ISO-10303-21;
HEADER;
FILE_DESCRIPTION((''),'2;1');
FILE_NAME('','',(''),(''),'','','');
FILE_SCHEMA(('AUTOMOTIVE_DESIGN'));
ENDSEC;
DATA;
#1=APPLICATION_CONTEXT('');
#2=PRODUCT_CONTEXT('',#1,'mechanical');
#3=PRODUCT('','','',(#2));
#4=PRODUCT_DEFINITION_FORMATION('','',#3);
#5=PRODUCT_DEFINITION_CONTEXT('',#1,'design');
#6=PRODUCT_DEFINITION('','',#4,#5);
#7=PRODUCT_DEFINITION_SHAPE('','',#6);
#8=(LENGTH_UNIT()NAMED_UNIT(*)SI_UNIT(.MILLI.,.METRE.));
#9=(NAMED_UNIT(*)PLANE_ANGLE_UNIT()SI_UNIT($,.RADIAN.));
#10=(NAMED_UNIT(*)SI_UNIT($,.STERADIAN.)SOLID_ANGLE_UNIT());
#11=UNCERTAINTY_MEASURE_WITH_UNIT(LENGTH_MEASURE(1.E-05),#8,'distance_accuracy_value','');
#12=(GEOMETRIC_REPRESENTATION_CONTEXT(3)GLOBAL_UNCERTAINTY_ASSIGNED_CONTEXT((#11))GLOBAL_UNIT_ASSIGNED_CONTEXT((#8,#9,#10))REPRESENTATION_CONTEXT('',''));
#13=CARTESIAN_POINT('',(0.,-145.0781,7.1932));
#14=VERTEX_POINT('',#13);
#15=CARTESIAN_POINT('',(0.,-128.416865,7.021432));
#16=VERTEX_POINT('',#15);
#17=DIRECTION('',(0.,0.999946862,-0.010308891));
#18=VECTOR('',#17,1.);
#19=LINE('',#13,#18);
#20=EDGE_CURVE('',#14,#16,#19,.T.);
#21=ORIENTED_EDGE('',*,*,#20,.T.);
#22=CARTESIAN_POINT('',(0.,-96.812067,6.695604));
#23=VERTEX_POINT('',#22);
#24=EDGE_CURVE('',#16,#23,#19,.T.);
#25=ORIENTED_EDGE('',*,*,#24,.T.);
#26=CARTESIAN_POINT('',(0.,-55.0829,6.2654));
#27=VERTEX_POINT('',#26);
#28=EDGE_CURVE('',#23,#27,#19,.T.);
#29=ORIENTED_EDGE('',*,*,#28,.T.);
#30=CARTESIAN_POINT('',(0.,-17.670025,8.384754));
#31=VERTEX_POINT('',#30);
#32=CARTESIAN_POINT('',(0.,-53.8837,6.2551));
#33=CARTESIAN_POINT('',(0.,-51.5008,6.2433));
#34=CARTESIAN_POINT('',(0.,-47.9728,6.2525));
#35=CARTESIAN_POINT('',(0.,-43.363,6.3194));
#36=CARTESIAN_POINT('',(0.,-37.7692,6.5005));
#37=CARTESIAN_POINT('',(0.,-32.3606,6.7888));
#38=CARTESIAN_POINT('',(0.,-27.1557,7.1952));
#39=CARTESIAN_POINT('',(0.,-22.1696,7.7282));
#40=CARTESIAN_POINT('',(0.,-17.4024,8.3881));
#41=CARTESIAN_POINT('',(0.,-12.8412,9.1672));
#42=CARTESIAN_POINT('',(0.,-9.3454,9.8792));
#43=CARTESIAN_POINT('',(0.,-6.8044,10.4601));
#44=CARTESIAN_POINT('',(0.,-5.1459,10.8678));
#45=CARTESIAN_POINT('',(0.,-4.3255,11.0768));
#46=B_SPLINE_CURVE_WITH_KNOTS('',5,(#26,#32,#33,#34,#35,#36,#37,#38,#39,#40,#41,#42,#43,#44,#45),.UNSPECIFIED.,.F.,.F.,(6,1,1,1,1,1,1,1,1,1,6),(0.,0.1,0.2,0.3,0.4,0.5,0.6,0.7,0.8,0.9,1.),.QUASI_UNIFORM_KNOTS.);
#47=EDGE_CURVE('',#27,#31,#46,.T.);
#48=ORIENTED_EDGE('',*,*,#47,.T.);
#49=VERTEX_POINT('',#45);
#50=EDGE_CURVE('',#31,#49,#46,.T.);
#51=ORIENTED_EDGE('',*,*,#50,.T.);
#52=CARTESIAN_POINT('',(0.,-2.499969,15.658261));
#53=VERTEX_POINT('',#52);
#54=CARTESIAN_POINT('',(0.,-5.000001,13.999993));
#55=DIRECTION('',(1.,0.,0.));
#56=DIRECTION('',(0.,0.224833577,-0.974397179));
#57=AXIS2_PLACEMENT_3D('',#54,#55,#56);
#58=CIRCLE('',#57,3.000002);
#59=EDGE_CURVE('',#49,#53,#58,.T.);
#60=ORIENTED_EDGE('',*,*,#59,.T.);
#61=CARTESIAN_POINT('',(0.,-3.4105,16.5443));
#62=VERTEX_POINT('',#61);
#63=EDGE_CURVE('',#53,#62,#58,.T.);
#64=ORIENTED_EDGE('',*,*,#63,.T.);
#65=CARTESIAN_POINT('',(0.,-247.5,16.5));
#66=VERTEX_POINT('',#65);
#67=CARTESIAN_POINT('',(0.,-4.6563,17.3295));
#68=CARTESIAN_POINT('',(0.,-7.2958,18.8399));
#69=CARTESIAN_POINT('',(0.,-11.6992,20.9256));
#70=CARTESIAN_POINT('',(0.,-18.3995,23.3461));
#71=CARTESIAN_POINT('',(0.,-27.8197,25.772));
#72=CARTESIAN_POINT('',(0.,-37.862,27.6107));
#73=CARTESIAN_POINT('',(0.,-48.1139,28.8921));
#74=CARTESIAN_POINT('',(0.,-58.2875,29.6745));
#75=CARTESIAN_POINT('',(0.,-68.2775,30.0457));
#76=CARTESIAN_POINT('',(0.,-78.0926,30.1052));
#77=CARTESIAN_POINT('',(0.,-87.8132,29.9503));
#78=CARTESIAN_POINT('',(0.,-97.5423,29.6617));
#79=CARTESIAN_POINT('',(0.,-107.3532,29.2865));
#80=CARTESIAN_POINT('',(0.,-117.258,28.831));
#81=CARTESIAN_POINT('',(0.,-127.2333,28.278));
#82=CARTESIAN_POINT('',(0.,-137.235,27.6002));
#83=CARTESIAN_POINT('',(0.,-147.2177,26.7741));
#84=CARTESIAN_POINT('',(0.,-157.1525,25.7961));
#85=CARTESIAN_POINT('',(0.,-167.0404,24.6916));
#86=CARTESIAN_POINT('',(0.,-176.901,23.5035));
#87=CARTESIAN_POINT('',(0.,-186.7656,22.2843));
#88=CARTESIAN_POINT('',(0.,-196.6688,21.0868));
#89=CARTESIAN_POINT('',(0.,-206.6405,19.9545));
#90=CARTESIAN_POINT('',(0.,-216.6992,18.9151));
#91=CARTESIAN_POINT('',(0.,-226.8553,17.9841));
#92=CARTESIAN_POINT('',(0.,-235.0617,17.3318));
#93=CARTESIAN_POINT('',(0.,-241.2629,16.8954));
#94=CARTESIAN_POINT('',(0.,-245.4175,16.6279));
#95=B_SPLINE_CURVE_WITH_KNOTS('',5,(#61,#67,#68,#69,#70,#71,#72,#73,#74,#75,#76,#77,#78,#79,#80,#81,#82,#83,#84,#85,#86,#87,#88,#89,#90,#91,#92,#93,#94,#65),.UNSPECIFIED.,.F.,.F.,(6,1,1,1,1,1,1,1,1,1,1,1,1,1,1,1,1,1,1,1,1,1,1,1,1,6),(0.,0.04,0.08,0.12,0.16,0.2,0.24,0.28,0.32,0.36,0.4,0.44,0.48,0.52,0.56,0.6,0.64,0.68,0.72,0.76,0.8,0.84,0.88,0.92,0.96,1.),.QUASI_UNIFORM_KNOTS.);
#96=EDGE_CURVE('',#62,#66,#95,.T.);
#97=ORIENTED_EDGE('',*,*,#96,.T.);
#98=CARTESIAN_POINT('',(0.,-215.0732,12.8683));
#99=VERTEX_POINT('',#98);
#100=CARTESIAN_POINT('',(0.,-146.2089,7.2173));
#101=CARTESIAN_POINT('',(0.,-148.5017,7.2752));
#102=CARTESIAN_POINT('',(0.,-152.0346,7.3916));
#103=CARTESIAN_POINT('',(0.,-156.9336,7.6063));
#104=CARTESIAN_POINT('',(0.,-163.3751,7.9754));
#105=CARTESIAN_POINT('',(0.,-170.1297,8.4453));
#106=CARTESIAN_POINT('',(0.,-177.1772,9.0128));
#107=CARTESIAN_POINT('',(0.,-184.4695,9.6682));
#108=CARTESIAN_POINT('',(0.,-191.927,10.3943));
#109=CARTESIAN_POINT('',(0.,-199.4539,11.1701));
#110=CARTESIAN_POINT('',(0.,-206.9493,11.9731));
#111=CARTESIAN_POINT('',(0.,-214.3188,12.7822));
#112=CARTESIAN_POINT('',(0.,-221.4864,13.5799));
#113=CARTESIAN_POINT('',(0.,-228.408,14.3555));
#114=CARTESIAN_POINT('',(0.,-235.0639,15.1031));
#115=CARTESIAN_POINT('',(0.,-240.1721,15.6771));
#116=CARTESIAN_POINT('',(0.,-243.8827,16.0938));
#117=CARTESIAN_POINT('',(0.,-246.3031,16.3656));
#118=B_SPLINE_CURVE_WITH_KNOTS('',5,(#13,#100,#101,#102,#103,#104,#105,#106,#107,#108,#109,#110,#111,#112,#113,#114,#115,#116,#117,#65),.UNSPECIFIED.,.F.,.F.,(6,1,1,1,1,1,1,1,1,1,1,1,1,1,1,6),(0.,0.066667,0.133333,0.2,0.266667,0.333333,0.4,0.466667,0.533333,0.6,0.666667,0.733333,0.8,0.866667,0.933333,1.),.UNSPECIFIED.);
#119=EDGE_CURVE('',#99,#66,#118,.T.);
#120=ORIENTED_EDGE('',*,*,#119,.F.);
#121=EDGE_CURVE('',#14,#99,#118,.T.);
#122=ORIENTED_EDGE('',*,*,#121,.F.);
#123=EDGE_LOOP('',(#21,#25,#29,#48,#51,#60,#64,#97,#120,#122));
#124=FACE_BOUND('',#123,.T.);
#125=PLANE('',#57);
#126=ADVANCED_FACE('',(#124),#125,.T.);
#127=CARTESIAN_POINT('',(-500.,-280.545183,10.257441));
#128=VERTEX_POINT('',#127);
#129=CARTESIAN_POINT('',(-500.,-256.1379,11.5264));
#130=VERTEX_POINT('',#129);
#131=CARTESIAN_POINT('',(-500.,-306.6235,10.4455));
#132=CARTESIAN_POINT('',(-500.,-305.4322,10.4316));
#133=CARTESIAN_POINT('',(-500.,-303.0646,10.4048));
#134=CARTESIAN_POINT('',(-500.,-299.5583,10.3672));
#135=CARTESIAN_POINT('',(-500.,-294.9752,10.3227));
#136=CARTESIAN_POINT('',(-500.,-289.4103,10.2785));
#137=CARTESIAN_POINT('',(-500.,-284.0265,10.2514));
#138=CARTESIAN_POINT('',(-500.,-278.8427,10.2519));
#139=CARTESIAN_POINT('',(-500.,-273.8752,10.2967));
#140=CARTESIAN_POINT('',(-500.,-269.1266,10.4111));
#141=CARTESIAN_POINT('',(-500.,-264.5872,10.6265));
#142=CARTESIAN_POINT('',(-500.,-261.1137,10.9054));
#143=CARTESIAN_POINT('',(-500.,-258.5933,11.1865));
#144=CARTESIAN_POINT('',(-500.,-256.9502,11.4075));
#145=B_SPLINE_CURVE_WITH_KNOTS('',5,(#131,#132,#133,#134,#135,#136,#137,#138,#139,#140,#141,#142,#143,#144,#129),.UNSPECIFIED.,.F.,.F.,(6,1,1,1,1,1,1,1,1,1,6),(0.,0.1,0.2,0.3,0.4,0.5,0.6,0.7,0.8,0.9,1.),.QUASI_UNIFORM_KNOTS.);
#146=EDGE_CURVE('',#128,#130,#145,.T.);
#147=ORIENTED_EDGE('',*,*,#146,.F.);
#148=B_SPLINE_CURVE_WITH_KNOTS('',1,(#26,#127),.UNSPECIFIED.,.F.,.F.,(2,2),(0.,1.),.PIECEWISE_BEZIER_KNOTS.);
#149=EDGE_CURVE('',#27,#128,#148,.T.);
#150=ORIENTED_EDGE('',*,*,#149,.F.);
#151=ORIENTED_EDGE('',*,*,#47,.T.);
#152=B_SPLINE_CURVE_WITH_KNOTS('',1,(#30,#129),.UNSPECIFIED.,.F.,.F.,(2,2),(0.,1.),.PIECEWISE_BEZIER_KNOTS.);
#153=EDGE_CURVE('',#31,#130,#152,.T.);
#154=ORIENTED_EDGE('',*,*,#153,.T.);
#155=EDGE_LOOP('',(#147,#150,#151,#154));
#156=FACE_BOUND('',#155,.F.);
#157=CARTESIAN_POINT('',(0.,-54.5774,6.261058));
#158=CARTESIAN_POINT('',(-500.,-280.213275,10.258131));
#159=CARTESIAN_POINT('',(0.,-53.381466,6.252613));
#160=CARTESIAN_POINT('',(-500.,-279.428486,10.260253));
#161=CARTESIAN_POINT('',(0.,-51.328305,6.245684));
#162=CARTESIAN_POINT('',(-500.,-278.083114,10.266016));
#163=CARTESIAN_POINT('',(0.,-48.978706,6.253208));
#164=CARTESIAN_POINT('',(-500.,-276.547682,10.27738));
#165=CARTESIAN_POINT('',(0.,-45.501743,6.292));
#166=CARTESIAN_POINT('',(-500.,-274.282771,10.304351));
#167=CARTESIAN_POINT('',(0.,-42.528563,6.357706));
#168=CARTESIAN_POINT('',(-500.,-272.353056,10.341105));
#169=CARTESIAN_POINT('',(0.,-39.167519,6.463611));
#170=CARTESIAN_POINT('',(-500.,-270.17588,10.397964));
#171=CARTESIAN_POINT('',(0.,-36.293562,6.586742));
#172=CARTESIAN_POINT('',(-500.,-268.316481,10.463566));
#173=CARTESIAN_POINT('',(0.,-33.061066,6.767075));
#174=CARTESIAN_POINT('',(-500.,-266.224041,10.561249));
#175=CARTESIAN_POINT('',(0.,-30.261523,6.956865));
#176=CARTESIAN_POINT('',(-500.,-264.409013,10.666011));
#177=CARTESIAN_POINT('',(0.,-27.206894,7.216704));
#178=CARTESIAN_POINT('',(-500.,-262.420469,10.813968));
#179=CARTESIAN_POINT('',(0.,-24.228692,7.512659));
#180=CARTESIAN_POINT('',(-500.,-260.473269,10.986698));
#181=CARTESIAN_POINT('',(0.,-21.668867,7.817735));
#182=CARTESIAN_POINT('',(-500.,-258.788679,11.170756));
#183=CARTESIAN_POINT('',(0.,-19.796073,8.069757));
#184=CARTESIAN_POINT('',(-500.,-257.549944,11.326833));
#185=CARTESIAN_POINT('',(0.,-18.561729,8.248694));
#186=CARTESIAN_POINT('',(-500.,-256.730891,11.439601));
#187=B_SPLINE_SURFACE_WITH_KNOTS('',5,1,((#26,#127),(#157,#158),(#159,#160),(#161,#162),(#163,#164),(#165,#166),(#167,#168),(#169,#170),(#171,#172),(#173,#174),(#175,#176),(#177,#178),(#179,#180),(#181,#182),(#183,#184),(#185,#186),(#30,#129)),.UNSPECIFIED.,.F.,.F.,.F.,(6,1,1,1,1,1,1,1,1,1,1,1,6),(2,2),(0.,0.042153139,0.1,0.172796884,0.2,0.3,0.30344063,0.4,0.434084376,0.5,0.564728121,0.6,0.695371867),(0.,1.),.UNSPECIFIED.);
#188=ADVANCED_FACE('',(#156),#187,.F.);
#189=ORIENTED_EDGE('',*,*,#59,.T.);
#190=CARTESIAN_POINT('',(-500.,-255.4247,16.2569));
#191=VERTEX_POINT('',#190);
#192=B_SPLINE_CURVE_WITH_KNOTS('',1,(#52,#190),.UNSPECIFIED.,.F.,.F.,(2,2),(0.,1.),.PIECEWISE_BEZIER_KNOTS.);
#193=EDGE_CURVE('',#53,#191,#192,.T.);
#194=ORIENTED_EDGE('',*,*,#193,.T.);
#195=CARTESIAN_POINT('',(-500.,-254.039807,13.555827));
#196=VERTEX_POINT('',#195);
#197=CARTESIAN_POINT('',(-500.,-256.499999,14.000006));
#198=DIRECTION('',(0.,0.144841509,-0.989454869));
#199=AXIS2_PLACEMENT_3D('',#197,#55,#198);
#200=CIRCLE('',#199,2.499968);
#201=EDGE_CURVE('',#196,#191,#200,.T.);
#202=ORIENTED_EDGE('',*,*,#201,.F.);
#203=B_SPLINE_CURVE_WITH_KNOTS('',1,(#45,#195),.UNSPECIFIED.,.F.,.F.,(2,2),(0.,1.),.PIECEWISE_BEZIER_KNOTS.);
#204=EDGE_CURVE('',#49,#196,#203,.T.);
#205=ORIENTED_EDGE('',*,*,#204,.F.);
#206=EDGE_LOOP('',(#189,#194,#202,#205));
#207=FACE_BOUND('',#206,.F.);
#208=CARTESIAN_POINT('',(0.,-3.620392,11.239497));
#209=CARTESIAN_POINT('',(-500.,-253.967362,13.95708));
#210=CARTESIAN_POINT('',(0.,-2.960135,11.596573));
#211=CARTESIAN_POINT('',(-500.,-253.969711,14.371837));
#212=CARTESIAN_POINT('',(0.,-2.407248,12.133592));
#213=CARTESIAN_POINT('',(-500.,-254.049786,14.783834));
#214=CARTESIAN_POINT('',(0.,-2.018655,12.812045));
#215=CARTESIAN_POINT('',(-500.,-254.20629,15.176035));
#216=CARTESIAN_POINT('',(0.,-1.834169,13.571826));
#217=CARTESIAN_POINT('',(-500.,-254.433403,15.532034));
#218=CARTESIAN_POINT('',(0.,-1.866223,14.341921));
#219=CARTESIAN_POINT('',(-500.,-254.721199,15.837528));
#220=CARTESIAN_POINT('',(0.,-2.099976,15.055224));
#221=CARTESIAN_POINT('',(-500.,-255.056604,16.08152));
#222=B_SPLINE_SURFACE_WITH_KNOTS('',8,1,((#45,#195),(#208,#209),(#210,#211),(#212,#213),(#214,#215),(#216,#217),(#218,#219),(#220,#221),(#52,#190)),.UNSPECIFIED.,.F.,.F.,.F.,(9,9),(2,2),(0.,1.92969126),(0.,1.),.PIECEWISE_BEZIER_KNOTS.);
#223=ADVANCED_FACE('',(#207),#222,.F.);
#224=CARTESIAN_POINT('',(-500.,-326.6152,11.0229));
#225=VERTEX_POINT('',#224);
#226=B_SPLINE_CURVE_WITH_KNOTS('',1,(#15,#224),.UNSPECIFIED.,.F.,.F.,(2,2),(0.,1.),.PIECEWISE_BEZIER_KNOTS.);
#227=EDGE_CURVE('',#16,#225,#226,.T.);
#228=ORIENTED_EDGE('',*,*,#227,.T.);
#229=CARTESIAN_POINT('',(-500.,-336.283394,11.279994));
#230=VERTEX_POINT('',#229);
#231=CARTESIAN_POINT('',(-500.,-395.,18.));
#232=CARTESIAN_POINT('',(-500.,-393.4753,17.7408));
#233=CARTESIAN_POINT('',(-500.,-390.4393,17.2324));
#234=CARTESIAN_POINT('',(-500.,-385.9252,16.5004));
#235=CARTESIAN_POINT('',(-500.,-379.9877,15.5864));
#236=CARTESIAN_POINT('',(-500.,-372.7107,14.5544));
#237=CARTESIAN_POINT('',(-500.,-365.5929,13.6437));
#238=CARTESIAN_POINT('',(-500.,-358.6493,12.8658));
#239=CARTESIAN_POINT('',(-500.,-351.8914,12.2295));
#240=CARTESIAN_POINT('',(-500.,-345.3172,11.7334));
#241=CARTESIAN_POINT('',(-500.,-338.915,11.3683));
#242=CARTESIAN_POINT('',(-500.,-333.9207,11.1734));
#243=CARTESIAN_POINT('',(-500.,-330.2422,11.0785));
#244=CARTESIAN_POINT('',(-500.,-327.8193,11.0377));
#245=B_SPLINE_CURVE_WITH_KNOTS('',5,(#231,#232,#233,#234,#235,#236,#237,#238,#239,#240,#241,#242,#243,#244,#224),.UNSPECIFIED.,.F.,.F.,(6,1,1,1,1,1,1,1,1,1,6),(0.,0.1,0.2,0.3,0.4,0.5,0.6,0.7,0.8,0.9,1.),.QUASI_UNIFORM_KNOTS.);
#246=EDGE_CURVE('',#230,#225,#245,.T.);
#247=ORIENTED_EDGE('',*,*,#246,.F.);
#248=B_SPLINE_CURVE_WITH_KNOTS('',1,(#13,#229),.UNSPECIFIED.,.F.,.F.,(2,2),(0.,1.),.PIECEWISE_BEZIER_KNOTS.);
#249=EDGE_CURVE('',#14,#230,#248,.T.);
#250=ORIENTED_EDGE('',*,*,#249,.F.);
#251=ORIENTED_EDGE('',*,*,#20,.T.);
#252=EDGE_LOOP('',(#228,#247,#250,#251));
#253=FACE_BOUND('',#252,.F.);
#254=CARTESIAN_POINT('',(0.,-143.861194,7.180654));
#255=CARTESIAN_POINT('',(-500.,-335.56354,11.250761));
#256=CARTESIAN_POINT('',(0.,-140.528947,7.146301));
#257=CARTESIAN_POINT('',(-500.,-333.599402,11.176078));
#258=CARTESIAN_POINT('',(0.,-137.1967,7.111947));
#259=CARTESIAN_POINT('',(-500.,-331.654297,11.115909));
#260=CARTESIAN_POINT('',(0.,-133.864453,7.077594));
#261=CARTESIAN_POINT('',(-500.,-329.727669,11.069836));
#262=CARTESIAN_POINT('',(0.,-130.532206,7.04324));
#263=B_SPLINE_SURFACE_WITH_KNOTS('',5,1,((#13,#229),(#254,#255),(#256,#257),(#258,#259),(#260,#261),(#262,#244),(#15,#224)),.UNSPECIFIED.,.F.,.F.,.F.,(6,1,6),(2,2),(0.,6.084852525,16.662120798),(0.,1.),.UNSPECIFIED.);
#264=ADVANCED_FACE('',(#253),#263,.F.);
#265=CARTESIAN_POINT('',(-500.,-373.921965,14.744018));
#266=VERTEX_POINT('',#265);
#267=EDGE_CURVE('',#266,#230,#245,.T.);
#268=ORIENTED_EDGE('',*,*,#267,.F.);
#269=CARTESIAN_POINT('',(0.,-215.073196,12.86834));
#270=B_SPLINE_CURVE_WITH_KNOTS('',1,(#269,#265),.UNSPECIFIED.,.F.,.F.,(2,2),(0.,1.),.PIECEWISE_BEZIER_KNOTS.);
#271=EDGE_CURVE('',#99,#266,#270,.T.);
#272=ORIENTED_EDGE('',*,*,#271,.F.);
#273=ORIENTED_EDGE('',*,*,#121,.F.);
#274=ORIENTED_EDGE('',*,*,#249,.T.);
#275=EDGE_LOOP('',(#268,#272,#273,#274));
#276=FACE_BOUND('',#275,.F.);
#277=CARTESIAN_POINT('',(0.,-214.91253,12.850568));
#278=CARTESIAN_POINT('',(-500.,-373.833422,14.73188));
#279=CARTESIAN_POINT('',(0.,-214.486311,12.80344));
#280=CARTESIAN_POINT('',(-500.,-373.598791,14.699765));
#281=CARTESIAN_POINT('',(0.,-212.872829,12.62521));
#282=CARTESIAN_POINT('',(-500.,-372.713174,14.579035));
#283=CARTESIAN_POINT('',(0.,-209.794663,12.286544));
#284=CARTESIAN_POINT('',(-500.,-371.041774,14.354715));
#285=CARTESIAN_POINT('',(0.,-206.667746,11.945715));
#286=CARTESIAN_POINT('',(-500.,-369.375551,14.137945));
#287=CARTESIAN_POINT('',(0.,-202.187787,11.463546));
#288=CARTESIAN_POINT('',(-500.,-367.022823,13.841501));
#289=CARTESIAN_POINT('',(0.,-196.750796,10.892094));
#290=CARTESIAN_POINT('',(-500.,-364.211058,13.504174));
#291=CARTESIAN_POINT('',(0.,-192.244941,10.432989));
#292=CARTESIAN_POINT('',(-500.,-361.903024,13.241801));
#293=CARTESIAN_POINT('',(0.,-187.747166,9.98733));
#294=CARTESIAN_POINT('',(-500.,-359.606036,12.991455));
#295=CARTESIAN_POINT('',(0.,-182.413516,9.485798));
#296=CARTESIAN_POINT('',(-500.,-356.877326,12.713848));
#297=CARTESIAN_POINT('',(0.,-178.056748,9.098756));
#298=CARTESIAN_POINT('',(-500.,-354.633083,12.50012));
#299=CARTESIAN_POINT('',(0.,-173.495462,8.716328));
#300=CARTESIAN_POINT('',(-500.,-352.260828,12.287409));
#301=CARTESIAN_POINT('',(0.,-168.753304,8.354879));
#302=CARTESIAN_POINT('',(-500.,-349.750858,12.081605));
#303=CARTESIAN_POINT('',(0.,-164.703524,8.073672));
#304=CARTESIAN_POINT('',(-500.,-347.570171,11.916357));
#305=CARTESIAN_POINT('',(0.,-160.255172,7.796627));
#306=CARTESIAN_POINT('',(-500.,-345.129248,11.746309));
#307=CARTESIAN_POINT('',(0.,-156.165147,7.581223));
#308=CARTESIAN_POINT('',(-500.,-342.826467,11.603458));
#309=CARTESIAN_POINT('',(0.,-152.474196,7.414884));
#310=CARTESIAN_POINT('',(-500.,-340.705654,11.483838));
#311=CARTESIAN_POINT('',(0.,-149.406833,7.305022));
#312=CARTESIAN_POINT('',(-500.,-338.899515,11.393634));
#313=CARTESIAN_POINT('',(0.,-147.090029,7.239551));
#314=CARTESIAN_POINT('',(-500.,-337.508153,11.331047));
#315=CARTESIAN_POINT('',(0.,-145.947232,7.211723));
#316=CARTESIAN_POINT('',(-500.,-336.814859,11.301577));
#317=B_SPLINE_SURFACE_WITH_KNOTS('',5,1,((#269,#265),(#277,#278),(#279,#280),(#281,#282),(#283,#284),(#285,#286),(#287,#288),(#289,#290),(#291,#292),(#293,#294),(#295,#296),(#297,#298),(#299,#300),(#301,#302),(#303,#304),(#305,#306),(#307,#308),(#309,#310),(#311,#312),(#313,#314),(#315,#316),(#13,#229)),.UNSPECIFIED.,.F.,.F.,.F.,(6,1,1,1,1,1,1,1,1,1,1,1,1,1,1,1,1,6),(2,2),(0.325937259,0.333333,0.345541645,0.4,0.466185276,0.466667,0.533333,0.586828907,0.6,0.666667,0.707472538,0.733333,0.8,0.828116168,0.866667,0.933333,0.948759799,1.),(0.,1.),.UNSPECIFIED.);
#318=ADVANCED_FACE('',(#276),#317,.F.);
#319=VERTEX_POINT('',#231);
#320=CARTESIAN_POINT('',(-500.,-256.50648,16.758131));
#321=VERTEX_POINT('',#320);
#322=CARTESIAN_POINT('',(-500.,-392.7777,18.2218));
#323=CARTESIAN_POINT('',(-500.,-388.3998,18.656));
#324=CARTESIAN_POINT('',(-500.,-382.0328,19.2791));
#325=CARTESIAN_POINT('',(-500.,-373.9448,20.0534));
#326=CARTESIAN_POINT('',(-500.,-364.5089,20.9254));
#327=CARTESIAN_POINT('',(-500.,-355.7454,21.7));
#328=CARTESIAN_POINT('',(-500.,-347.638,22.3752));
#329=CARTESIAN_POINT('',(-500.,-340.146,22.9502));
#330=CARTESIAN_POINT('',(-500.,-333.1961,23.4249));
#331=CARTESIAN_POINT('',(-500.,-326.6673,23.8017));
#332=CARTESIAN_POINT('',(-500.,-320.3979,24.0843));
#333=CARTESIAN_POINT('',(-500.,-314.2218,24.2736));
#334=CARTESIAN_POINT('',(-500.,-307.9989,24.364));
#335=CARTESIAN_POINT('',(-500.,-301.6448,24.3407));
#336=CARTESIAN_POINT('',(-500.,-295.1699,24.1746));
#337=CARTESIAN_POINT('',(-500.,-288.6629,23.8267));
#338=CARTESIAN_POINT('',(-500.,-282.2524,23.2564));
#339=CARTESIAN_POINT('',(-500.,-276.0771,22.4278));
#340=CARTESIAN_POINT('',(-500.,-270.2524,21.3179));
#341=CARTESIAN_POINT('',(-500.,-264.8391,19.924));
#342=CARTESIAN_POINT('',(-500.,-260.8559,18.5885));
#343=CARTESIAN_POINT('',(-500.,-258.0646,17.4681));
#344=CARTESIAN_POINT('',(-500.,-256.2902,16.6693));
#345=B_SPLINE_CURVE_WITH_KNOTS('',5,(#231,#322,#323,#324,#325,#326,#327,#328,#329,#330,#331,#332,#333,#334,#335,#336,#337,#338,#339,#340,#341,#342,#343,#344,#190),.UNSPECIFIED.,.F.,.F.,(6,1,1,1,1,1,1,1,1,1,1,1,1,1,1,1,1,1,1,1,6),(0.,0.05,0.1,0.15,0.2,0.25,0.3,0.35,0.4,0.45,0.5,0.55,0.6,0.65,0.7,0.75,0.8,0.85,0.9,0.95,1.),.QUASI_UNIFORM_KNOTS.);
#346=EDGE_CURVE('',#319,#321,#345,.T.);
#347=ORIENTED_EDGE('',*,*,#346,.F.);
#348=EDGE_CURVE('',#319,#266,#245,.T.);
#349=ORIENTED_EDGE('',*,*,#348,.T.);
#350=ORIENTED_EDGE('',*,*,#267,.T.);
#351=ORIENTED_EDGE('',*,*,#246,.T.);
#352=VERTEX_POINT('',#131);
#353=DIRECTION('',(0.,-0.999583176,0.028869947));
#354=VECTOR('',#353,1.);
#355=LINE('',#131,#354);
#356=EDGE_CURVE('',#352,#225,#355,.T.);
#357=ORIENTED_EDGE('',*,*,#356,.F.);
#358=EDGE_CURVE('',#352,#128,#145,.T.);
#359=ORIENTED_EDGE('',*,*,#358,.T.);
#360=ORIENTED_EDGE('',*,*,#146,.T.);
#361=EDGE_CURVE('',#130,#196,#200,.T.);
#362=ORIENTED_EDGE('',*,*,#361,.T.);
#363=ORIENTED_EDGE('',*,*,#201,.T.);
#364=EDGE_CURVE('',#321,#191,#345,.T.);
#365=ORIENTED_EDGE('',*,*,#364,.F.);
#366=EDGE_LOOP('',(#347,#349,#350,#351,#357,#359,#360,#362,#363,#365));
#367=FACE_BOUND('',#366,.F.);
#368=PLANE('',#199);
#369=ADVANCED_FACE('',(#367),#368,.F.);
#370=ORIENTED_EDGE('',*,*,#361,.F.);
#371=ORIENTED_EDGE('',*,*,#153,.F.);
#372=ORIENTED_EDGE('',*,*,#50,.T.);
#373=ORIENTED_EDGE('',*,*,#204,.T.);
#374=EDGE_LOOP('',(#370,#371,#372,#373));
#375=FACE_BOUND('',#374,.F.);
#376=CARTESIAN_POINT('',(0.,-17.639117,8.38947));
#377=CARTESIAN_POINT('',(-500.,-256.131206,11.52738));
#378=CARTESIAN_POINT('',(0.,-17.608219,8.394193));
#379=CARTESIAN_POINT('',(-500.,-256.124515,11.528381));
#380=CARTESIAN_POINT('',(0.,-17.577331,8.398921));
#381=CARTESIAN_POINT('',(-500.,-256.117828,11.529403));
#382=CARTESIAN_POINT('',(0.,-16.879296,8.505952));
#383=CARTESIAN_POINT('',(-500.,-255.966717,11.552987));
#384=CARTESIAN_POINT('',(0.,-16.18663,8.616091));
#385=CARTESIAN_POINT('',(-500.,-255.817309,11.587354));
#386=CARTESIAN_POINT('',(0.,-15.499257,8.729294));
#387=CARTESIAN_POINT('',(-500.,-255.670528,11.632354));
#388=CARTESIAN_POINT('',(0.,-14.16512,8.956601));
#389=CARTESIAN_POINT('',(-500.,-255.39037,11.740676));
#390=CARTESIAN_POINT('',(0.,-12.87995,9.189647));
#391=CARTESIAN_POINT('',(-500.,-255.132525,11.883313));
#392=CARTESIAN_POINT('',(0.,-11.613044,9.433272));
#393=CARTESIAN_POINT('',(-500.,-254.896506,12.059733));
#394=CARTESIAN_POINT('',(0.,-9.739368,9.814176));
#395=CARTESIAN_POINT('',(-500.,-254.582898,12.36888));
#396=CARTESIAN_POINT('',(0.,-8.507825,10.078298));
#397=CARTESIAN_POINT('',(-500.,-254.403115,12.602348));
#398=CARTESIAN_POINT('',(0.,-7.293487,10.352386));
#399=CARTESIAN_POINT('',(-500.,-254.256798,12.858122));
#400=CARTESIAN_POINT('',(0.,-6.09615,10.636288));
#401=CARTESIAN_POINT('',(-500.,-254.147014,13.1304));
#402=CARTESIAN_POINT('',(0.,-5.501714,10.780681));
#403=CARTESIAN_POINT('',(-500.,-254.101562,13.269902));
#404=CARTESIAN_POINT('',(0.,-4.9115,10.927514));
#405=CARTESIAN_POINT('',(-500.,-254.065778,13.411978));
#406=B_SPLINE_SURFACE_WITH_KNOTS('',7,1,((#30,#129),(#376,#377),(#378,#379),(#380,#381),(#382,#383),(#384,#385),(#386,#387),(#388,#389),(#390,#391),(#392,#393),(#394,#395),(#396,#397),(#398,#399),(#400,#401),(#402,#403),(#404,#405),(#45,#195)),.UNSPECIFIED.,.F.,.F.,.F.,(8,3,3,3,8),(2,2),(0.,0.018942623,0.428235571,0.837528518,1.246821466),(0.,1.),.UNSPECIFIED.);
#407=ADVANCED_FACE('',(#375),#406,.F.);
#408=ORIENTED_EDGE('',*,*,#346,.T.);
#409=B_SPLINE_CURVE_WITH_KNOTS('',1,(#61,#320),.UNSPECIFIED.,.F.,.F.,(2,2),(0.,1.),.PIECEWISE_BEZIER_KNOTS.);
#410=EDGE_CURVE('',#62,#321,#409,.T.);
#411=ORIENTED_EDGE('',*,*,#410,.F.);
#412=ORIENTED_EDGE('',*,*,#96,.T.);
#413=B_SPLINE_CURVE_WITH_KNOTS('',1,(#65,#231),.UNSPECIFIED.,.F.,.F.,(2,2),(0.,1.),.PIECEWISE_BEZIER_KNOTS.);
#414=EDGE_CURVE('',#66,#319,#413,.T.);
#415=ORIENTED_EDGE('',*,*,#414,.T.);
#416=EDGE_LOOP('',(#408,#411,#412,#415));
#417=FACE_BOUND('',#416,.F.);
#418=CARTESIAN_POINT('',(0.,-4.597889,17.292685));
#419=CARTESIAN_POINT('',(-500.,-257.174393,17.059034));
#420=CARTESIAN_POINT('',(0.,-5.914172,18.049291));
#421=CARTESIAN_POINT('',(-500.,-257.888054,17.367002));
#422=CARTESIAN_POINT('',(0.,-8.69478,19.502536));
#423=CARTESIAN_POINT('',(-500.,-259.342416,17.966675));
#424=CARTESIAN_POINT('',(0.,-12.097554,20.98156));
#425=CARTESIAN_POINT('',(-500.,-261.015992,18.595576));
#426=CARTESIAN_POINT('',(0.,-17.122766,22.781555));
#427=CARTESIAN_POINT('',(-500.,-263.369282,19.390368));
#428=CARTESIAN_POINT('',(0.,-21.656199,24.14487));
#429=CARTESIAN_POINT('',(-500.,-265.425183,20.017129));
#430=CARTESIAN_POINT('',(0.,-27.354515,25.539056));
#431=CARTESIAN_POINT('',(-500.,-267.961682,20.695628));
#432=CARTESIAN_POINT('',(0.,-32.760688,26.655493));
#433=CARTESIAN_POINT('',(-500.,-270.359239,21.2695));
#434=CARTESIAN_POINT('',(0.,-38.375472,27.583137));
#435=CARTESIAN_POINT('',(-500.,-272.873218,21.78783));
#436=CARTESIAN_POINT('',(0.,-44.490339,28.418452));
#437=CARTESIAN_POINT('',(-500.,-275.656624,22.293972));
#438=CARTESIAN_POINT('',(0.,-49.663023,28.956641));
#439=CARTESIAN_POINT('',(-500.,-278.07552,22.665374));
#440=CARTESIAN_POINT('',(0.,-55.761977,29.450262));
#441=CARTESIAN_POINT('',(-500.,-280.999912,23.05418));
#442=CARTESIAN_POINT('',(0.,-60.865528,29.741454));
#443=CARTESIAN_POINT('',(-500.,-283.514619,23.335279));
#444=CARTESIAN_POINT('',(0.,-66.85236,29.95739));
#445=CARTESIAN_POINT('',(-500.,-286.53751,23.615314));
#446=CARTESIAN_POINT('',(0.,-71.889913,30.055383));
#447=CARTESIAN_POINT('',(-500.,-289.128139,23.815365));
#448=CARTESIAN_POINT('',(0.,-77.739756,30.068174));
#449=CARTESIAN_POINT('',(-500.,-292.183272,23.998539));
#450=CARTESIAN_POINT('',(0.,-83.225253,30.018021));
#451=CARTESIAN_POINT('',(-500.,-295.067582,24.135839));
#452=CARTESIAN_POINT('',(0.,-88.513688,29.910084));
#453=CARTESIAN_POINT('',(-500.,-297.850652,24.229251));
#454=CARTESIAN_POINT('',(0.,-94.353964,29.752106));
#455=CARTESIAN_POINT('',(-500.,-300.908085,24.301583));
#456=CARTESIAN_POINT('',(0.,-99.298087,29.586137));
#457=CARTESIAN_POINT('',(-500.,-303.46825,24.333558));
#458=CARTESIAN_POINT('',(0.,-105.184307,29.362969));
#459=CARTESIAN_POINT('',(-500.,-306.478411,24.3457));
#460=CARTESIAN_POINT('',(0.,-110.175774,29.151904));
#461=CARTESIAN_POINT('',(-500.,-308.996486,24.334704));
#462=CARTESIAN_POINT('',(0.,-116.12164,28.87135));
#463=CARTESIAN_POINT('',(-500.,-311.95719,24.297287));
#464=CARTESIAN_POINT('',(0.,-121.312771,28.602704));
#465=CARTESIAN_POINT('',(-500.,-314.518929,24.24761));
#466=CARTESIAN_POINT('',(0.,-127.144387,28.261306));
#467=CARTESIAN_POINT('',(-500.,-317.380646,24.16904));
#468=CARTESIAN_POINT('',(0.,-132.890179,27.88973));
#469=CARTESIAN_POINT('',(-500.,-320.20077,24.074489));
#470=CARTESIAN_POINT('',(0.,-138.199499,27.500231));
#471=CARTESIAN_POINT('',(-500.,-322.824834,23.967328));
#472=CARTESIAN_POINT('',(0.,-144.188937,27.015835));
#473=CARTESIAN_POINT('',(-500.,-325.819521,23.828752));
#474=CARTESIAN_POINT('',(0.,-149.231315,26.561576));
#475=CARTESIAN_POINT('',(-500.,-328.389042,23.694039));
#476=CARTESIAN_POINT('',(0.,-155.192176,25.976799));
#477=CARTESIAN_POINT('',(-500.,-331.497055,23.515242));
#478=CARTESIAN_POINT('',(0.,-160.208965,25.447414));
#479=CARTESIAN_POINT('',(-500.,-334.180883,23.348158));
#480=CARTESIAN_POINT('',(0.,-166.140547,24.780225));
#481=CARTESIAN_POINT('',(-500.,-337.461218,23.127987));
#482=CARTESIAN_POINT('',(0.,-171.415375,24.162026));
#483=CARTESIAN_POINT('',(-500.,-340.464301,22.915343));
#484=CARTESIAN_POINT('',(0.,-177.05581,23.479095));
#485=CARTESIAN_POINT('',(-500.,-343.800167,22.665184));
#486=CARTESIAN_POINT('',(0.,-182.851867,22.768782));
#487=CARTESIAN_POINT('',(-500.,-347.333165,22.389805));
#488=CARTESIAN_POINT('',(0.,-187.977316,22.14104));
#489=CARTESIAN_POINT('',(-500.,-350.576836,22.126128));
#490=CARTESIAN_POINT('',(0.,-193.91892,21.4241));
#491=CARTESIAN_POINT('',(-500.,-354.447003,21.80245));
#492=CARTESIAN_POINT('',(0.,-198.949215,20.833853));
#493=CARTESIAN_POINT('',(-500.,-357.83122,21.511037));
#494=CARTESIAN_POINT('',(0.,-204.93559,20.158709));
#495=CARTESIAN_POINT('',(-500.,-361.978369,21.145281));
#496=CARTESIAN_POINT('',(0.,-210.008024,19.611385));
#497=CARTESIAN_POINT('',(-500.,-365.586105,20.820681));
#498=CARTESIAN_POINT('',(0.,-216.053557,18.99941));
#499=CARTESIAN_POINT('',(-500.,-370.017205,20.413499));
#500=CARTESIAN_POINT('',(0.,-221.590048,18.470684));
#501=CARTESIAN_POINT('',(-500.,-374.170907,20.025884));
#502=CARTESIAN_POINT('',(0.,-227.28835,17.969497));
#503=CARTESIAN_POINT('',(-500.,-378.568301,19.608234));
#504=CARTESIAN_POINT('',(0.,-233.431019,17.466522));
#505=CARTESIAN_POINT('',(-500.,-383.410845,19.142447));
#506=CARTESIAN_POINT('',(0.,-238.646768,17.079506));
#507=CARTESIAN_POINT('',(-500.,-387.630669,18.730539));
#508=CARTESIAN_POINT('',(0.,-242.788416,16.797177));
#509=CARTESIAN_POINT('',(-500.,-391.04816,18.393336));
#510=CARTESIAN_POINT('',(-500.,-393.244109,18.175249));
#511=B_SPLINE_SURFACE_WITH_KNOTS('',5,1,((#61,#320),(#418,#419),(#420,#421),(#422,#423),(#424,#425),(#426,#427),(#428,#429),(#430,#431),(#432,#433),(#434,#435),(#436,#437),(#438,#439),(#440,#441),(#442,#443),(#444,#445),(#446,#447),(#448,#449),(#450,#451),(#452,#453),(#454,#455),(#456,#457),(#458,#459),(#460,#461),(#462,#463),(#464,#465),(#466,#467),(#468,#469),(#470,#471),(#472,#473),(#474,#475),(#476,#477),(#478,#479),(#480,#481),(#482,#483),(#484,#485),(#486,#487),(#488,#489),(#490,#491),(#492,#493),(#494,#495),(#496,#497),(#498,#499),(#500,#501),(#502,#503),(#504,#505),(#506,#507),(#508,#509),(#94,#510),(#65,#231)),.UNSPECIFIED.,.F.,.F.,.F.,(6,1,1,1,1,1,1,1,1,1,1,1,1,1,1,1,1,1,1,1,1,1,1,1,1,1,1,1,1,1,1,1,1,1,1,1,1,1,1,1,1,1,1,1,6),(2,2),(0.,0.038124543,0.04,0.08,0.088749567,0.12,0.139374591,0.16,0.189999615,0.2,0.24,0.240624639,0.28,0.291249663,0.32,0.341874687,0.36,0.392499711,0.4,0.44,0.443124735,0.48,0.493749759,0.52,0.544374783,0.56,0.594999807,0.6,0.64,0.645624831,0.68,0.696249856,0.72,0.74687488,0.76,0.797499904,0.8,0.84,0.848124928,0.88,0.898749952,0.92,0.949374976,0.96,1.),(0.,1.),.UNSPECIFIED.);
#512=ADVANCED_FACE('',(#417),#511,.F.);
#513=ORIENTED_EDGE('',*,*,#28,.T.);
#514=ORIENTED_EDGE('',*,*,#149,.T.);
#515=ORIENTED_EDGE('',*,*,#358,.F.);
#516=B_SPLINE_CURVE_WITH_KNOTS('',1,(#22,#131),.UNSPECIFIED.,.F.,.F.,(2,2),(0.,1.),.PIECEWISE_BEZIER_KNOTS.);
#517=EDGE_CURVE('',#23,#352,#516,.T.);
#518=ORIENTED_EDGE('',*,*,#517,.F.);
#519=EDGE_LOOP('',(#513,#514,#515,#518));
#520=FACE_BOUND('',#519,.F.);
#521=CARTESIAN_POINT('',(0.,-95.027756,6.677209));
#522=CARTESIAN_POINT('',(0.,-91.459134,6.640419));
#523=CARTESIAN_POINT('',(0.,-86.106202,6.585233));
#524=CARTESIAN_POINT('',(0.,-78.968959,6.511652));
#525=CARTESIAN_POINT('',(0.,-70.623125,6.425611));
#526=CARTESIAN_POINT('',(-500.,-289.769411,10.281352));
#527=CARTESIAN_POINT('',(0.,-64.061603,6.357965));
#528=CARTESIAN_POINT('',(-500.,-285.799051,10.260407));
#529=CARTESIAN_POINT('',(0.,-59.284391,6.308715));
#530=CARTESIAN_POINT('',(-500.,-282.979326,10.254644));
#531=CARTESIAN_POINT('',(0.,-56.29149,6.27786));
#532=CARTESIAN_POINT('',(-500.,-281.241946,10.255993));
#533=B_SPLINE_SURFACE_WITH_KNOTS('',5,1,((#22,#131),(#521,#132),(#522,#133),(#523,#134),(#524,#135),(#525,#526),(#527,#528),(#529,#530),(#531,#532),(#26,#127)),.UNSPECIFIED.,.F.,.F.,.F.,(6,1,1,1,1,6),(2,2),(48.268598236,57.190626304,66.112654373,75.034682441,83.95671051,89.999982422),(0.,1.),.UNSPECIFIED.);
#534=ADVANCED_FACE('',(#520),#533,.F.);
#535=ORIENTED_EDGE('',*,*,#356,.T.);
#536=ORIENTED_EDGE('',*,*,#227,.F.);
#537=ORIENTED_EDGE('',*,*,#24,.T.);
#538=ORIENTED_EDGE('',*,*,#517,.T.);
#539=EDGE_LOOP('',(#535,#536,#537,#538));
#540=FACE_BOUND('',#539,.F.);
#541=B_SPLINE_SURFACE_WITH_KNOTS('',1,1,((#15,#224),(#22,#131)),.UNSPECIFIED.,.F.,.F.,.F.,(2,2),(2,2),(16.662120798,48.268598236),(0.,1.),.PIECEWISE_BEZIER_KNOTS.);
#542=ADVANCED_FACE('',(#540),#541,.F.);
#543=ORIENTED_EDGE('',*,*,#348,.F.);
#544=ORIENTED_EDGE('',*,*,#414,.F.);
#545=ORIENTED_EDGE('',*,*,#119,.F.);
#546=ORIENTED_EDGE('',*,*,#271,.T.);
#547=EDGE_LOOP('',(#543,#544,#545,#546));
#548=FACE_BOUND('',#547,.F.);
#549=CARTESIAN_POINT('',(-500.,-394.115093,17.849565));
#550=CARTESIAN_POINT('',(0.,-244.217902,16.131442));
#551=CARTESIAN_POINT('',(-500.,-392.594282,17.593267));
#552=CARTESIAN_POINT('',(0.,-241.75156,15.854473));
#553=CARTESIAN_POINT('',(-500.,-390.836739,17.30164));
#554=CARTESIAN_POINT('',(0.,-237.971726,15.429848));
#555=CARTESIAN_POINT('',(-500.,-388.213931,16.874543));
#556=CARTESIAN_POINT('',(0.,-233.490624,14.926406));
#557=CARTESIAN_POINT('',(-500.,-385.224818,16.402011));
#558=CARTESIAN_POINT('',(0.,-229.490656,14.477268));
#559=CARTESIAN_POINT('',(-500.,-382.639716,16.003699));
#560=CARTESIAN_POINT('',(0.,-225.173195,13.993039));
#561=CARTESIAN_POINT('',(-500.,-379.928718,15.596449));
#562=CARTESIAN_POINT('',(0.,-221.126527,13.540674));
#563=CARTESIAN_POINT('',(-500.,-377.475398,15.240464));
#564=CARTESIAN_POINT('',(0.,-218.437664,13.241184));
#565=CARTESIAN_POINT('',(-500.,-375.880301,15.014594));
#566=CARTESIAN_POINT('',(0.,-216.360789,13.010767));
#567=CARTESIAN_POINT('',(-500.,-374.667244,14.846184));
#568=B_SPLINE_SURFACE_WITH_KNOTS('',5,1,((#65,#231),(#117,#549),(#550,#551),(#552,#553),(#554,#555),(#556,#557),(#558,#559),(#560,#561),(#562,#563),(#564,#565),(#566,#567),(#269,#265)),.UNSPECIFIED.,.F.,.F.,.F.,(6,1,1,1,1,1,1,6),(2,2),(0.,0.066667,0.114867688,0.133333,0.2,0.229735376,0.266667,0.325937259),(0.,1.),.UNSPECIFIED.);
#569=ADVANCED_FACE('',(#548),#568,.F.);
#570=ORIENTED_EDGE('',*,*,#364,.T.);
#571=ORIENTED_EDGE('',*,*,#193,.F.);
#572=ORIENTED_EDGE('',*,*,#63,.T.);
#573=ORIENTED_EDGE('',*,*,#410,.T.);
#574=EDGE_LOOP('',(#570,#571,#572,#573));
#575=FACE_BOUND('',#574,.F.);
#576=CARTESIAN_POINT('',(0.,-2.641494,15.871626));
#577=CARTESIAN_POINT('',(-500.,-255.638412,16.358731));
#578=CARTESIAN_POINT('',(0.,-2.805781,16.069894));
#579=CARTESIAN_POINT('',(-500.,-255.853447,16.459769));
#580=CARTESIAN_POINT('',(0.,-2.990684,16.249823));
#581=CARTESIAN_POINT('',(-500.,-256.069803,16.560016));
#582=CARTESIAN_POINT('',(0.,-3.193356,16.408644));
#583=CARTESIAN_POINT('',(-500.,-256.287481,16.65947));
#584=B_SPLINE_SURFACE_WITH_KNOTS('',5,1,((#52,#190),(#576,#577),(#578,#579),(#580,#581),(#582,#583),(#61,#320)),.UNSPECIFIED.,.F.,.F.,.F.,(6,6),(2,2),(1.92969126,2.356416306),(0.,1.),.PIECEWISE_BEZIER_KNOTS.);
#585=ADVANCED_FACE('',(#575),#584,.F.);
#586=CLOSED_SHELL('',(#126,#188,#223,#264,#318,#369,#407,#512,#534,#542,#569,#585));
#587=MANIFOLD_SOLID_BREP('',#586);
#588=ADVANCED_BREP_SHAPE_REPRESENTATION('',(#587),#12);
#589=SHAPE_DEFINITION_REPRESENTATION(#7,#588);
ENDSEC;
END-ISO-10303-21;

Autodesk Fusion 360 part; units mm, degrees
sketch "Skizze1" plane through (0, 0, 0) normal (1, 0, 0) x (0, 0, -1)
  line L0 (0, 0) -> (-45, 0) construction
  line L1 (-45, 0) -> (-45, -252.5) construction
  line L2 (-45, -252.5) -> (0, -252.5) construction
  line L3 (0, -252.5) -> (0, 0) construction
  line L4 (-14, -5) -> (-16.5, -247.5) construction
  line L5 (-16.1648, -214.9894) -> (-19.3648, -214.9564) construction
  line L6 (-16.0618, -204.9899) -> (-20.3618, -204.9456) construction
  line L7 (-15.9587, -194.9904) -> (-21.3087, -194.9353) construction
  line L8 (-15.8556, -184.991) -> (-22.1556, -184.926) construction
  line L9 (-15.7525, -174.9915) -> (-23.3525, -174.9131) construction
  line L10 (-15.6494, -164.992) -> (-24.8494, -164.8972) construction
  line L11 (-15.5463, -154.9926) -> (-25.7963, -154.8869) construction
  line L12 (-15.4432, -144.9931) -> (-26.9432, -144.8745) construction
  line L13 (-15.3401, -134.9936) -> (-27.6901, -134.8663) construction
  line L14 (-15.2371, -124.9942) -> (-28.4871, -124.8576) construction
  line L15 (-15.134, -114.9947) -> (-29.134, -114.8504) construction
  line L16 (-15.0309, -104.9952) -> (-29.5309, -104.8457) construction
  line L17 (-14.9278, -94.9957) -> (-29.7278, -94.8432) construction
  line L18 (-14.8247, -84.9963) -> (-29.8247, -84.8416) construction
  line L19 (-14.7216, -74.9968) -> (-30.2216, -74.837) construction
  line L20 (-14.6185, -64.9973) -> (-29.8685, -64.8401) construction
  line L21 (-14.5154, -54.9979) -> (-29.2154, -54.8463) construction
  line L22 (-14.4124, -44.9984) -> (-28.4124, -44.8541) construction
  line L23 (-14.3093, -34.9989) -> (-26.8093, -34.8701) construction
  line L24 (-14.2062, -24.9995) -> (-24.4562, -24.8938) construction
  line L25 (-14.1031, -15) -> (-22.1027, -14.9175) construction
  line L26 (-16.1648, -214.9894) -> (-12.8648, -215.0234) construction
  line L27 (-16.0618, -204.9899) -> (-12.1618, -205.0301) construction
  line L28 (-15.9587, -194.9904) -> (-16.0618, -194.9894) construction
  line L29 (-15.9587, -194.9904) -> (-10.2587, -195.0492) construction
  line L30 (-15.8556, -184.991) -> (-9.7556, -185.0539) construction
  line L31 (-15.7525, -174.9915) -> (-8.8525, -175.0626) construction
  line L32 (-15.6494, -164.992) -> (-8.1494, -165.0693) construction
  line L33 (-15.5463, -154.9926) -> (-7.5463, -155.075) construction
  line L34 (-15.4432, -144.9931) -> (-7.1932, -145.0781) construction
  line L35 (-14.5154, -54.9979) -> (-6.2654, -55.0829) construction
  line L36 (-14.4124, -44.9984) -> (-6.4124, -45.0809) construction
  line L37 (-14.3093, -34.9989) -> (-7.0593, -35.0737) construction
  line L38 (-14.2062, -24.9995) -> (-13.6374, -25.0053) construction
  line L39 (-13.6374, -25.0053) -> (-7.4374, -25.0692) construction
  line L40 (-14.1031, -15) -> (-9.1031, -15.0515) construction
  line L41 (-28.6876, -57.2976) -> (-28.6876, -53.2976) construction
  line L42 (-28.6876, -53.2976) -> (-31.6876, -53.2976) construction
  line L43 (-31.6876, -53.2976) -> (-31.6876, -57.2976) construction
  line L44 (-31.6876, -57.2976) -> (-28.6876, -57.2976) construction
  line L45 (-30, -107) -> (-30, -102) construction
  line L46 (-30, -102) -> (-35, -102) construction
  line L47 (-35, -102) -> (-35, -107) construction
  line L48 (-35, -107) -> (-30, -107) construction
  line L49 (-29, -158) -> (-29, -151) construction
  line L50 (-29, -151) -> (-35, -151) construction
  line L51 (-35, -151) -> (-35, -158) construction
  line L52 (-35, -158) -> (-29, -158) construction
  line L53 (-28, -208) -> (-28, -201) construction
  line L54 (-28, -201) -> (-33, -201) construction
  line L55 (-33, -201) -> (-33, -208) construction
  line L56 (-33, -208) -> (-28, -208) construction
  line L57 (-7.1932, -145.0781) -> (-6.2654, -55.0829)
  spline S0 degree 5 number of poles 115 construction
  spline S1 degree 5 poles (-11.0768, -4.3255) (-10.9783, -4.7523) (-10.7883, -5.6039) (-10.5245, -6.8746) (-10.2108, -8.5556) (-9.8584, -10.6352) (-9.5182, -12.6938) (-9.1666, -14.7331) (-8.792, -16.756) (-8.4052, -18.7668) (-8.032, -20.7708) (-7.7032, -22.7731) (-7.4461, -24.7783) (-7.275, -26.7894) (-7.1808, -28.807) (-7.1379, -30.8297) (-7.1131, -32.8552) (-7.0742, -34.8809) (-6.998, -36.9048) (-6.8801, -38.926) (-6.7304, -40.9447) (-6.5672, -42.9618) (-6.4123, -44.9785) (-6.2859, -46.9958) (-6.2012, -49.0146) (-6.1655, -51.0351) (-6.1789, -52.6532) (-6.2129, -53.8677) (-6.2461, -54.6778) (-6.2654, -55.0829) knots 0 0 0 0 0 0 0.04 0.08 0.12 0.16 0.2 0.24 0.28 0.32 0.36 0.4 0.44 0.48 0.52 0.56 0.6 0.64 0.68 0.72 0.76 0.8 0.84 0.88 0.92 0.96 1 1 1 1 1 1 construction
  spline S2 degree 5 poles (-7.1932, -145.0781) (-7.1963, -145.5182) (-7.2054, -146.3982) (-7.2276, -147.7182) (-7.2744, -149.4781) (-7.3608, -151.6779) (-7.4725, -153.8775) (-7.6045, -156.0768) (-7.748, -158.2758) (-7.8912, -160.4742) (-8.024, -162.672) (-8.1418, -164.8692) (-8.2485, -167.066) (-8.3617, -169.2627) (-8.5041, -171.4599) (-8.6935, -173.6578) (-8.9345, -175.8564) (-9.2071, -178.055) (-9.4661, -180.2521) (-9.6638, -182.4467) (-9.7681, -184.6384) (-9.7802, -186.8281) (-9.7585, -189.0194) (-9.7928, -191.2162) (-9.9673, -193.4214) (-10.3297, -195.6342) (-10.851, -197.8484) (-11.4119, -200.0513) (-11.8781, -202.2292) (-12.1517, -204.3725) (-12.2472, -206.4778) (-12.3273, -208.5587) (-12.4479, -210.6717) (-12.6374, -212.8923) (-12.8897, -215.3048) (-13.1925, -217.9858) (-13.538, -220.9923) (-13.9229, -224.3658) (-14.3471, -228.1343) (-14.8123, -232.3149) (-15.3218, -236.9168) (-15.7677, -240.9379) (-16.1248, -244.1447) (-16.3732, -246.3674) (-16.5, -247.5) knots 0 0 0 0 0 0 0.025 0.05 0.075 0.1 0.125 0.15 0.175 0.2 0.225 0.25 0.275 0.3 0.325 0.35 0.375 0.4 0.425 0.45 0.475 0.5 0.525 0.55 0.575 0.6 0.625 0.65 0.675 0.7 0.725 0.75 0.775 0.8 0.825 0.85 0.875 0.9 0.925 0.95 0.975 1 1 1 1 1 1 construction
  line L58 (-14.8393, -232.6636) -> (-18.1607, -262.3364)
  line L59 (-19.6077, -212.1973) -> (-13.3923, -282.8027)
  line L60 (-11.4552, -194.987) -> (-12.8683, -215.0732)
  line L61 (-1.9731, 19.9133) -> (-31.1155, -26.7343)
  spline S3 degree 5 poles (-16.5443, -3.4105) (-17.3295, -4.6563) (-18.8399, -7.2958) (-20.9256, -11.6992) (-23.3461, -18.3995) (-25.772, -27.8197) (-27.6107, -37.862) (-28.8921, -48.1139) (-29.6745, -58.2875) (-30.0457, -68.2775) (-30.1052, -78.0926) (-29.9503, -87.8132) (-29.6617, -97.5423) (-29.2865, -107.3532) (-28.831, -117.258) (-28.278, -127.2333) (-27.6002, -137.235) (-26.7741, -147.2177) (-25.7961, -157.1525) (-24.6916, -167.0404) (-23.5035, -176.901) (-22.2843, -186.7656) (-21.0868, -196.6688) (-19.9545, -206.6405) (-18.9151, -216.6992) (-17.9841, -226.8553) (-17.3318, -235.0617) (-16.8954, -241.2629) (-16.6279, -245.4175) (-16.5, -247.5) knots 0 0 0 0 0 0 0.04 0.08 0.12 0.16 0.2 0.24 0.28 0.32 0.36 0.4 0.44 0.48 0.52 0.56 0.6 0.64 0.68 0.72 0.76 0.8 0.84 0.88 0.92 0.96 1 1 1 1 1 1
  spline S4 degree 5 poles (-6.2654, -55.0829) (-6.2551, -53.8837) (-6.2433, -51.5008) (-6.2525, -47.9728) (-6.3194, -43.363) (-6.5005, -37.7692) (-6.7888, -32.3606) (-7.1952, -27.1557) (-7.7282, -22.1696) (-8.3881, -17.4024) (-9.1672, -12.8412) (-9.8792, -9.3454) (-10.4601, -6.8044) (-10.8678, -5.1459) (-11.0768, -4.3255) knots 0 0 0 0 0 0 0.1 0.2 0.3 0.4 0.5 0.6 0.7 0.8 0.9 1 1 1 1 1 1
  spline S5 degree 5 poles (-7.1932, -145.0781) (-7.2173, -146.2089) (-7.2752, -148.5017) (-7.3916, -152.0346) (-7.6063, -156.9336) (-7.9754, -163.3751) (-8.4453, -170.1297) (-9.0128, -177.1772) (-9.6682, -184.4695) (-10.3943, -191.927) (-11.1701, -199.4539) (-11.9731, -206.9493) (-12.7822, -214.3188) (-13.5799, -221.4864) (-14.3555, -228.408) (-15.1031, -235.0639) (-15.6771, -240.1721) (-16.0938, -243.8827) (-16.3656, -246.3031) (-16.5, -247.5) knots 0 0 0 0 0 0 0.066667 0.133333 0.2 0.266667 0.333333 0.4 0.466667 0.533333 0.6 0.666667 0.733333 0.8 0.866667 0.933333 1 1 1 1 1 1
  arc A0 (-11.0768, -4.3255) -> (-16.5443, -3.4105) centre (-14, -5) ccw
  line L62 (-6.0886, 13.179) -> (-27, -20)
  point P0 (-14.1031, -15)
  point P1 (-14.2062, -24.9995)
  point P2 (-14.3093, -34.9989)
  point P3 (-14.4124, -44.9984)
  point P4 (-14.5154, -54.9979)
  point P5 (-14.6185, -64.9973)
  point P6 (-14.7216, -74.9968)
  point P7 (-14.8247, -84.9963)
  point P8 (-14.9278, -94.9957)
  point P9 (-15.0309, -104.9952)
  point P10 (-15.134, -114.9947)
  point P11 (-15.2371, -124.9942)
  point P12 (-15.3401, -134.9936)
  point P13 (-15.4432, -144.9931)
  point P14 (-15.5463, -154.9926)
  point P15 (-15.6494, -164.992)
  point P16 (-15.7525, -174.9915)
  point P17 (-15.8556, -184.991)
  point P18 (-15.9587, -194.9904)
  point P19 (-16.0618, -204.9899)
  point P20 (-16.1648, -214.9894)
  point P21 (-28.4124, -44.8541)
  point P22 (-29.7278, -94.8432)
  point P23 (-26.9432, -144.8745)
  point P24 (-21.3087, -194.9353)
  point P25 (-7.4374, -25.0692)
  point P26 (-8.8525, -175.0626)
  point P27 (-12.8683, -215.0732)
  dimension "d1" = 45
  dimension "d2" = 252.5
  dimension "d3" = 14
  dimension "d4" = 5
  dimension "d5" = 16.5
  dimension "d6" = 5
  dimension "d7" = 10
  dimension "d10" = 10
  dimension "d11" = 0
  dimension "d12" = 8
  dimension "d13" = 10.25
  dimension "d14" = 12.5
  dimension "d15" = 14
  dimension "d16" = 14.7
  dimension "d17" = 15.25
  dimension "d18" = 15.5
  dimension "d19" = 10
  dimension "d20" = 10
  dimension "d21" = 10
  dimension "d22" = 10
  dimension "d23" = 15
  dimension "d24" = 14.8
  dimension "d25" = 14.5
  dimension "d26" = 14
  dimension "d27" = 13.25
  dimension "d28" = 12.35
  dimension "d29" = 11.5
  dimension "d30" = 10.25
  dimension "d31" = 9.2
  dimension "d32" = 7.6
  dimension "d33" = 6.3
  dimension "d34" = 5.35
  dimension "d35" = 4.3
  dimension "d36" = 3.2
  dimension "d37" = 32.5124
  dimension "d38" = 5
  dimension "d39" = 6.2
  dimension "d40" = 7.25
  dimension "d41" = 8
  dimension "d42" = 8.25
  dimension "d44" = 8
  dimension "d45" = 7.5
  dimension "d46" = 6.9
  dimension "d47" = 6.1
  dimension "d48" = 5.7
  dimension "d49" = 3.9
  dimension "d50" = 3.3
  dimension "d51" = 6
ref_plane "Arbeitsebene1" through (-500, 0, 0) normal (1, 0, 0) x (0, 1, 0)
sketch "Skizze2" plane through (-500, 0, 0) normal (1, 0, 0) x (0, 0, -1)
  line L0 (0, -250) -> (-45, -250) construction
  line L1 (-45, -250) -> (-45, -400) construction
  line L2 (-45, -400) -> (0, -400) construction
  line L3 (0, -400) -> (0, -250) construction
  line L4 (-45, -252.5) -> (0, -252.5) construction
  line L5 (-45, 0) -> (-45, -252.5) construction
  line L6 (-14, -256.5) -> (-18, -395) construction
  line L7 (-14.2887, -266.4958) -> (-20.3861, -266.3197) construction
  line L8 (-14.5774, -276.4917) -> (-22.3741, -276.2665) construction
  line L9 (-14.8661, -286.4875) -> (-23.3625, -286.2421) construction
  line L10 (-15.1548, -296.4833) -> (-23.8511, -296.2322) construction
  line L11 (-15.4434, -306.4792) -> (-24.3397, -306.2222) construction
  line L12 (-15.7321, -316.475) -> (-24.2286, -316.2296) construction
  line L13 (-16.0208, -326.4708) -> (-24.2174, -326.2341) construction
  line L14 (-16.3095, -336.4667) -> (-23.2066, -336.2675) construction
  line L15 (-16.5982, -346.4625) -> (-21.9959, -346.3066) construction
  line L16 (-16.8869, -356.4583) -> (-21.485, -356.3255) construction
  line L17 (-17.1756, -366.4542) -> (-20.5742, -366.356) construction
  line L18 (-14.2887, -266.4958) -> (-10.2904, -266.6113) construction
  line L19 (-14.5774, -276.4917) -> (-10.2792, -276.6158) construction
  line L20 (-14.8661, -286.4875) -> (-10.168, -286.6232) construction
  line L21 (-15.1548, -296.4833) -> (-10.2568, -296.6248) construction
  line L22 (-15.4434, -306.4792) -> (-10.4455, -306.6235) construction
  line L23 (-16.0208, -326.4708) -> (-11.0229, -326.6152) construction
  line L24 (-16.3095, -336.4667) -> (-11.4115, -336.6081) construction
  line L25 (-16.5982, -346.4625) -> (-12.2, -346.5895) construction
  line L26 (-16.8869, -356.4583) -> (-12.6886, -356.5796) construction
  line L27 (-17.1756, -366.4542) -> (-13.5771, -366.5581) construction
  line L28 (-10.4455, -306.6235) -> (-11.0229, -326.6152)
  spline S0 degree 5 poles (-10.4455, -306.6235) (-10.4397, -306.2212) (-10.4275, -305.4166) (-10.4081, -304.2099) (-10.3797, -302.6013) (-10.3405, -300.5911) (-10.2983, -298.5814) (-10.2551, -296.572) (-10.2142, -294.5626) (-10.1803, -292.5529) (-10.1586, -290.5424) (-10.1531, -288.5309) (-10.1653, -286.5183) (-10.1926, -284.5049) (-10.2276, -282.4917) (-10.26, -280.4796) (-10.2805, -278.4694) (-10.2831, -276.4614) (-10.268, -274.4553) (-10.2445, -272.4492) (-10.2275, -270.441) (-10.2347, -268.4278) (-10.2839, -266.4071) (-10.39, -264.3768) (-10.5618, -262.3355) (-10.8044, -260.2826) (-11.0567, -258.6307) (-11.2788, -257.3864) (-11.4414, -256.5545) (-11.5264, -256.1379) knots 0 0 0 0 0 0 0.04 0.08 0.12 0.16 0.2 0.24 0.28 0.32 0.36 0.4 0.44 0.48 0.52 0.56 0.6 0.64 0.68 0.72 0.76 0.8 0.84 0.88 0.92 0.96 1 1 1 1 1 1 construction
  spline S1 degree 5 poles (-18, -395) (-17.824, -393.9501) (-17.4795, -391.8887) (-16.9855, -388.9118) (-16.3722, -385.1733) (-15.6819, -380.8864) (-15.0683, -376.9846) (-14.5317, -373.4605) (-14.0713, -370.2977) (-13.685, -367.4665) (-13.3693, -364.9213) (-13.1182, -362.5945) (-12.9236, -360.4035) (-12.775, -358.2666) (-12.66, -356.1148) (-12.5638, -353.9076) (-12.4703, -351.6415) (-12.3642, -349.3347) (-12.2344, -347.0158) (-12.076, -344.7115) (-11.8938, -342.4332) (-11.7, -340.1788) (-11.5097, -337.9389) (-11.3387, -335.7009) (-11.1986, -333.4543) (-11.0959, -331.1935) (-11.0461, -329.3711) (-11.0273, -327.9963) (-11.023, -327.0761) (-11.0229, -326.6152) knots 0 0 0 0 0 0 0.04 0.08 0.12 0.16 0.2 0.24 0.28 0.32 0.36 0.4 0.44 0.48 0.52 0.56 0.6 0.64 0.68 0.72 0.76 0.8 0.84 0.88 0.92 0.96 1 1 1 1 1 1 construction
  spline S2 degree 5 number of poles 65 construction
  spline S3 degree 5 poles (-18, -395) (-18.2218, -392.7777) (-18.656, -388.3998) (-19.2791, -382.0328) (-20.0534, -373.9448) (-20.9254, -364.5089) (-21.7, -355.7454) (-22.3752, -347.638) (-22.9502, -340.146) (-23.4249, -333.1961) (-23.8017, -326.6673) (-24.0843, -320.3979) (-24.2736, -314.2218) (-24.364, -307.9989) (-24.3407, -301.6448) (-24.1746, -295.1699) (-23.8267, -288.6629) (-23.2564, -282.2524) (-22.4278, -276.0771) (-21.3179, -270.2524) (-19.924, -264.8391) (-18.5885, -260.8559) (-17.4681, -258.0646) (-16.6693, -256.2902) (-16.2569, -255.4247) knots 0 0 0 0 0 0 0.05 0.1 0.15 0.2 0.25 0.3 0.35 0.4 0.45 0.5 0.55 0.6 0.65 0.7 0.75 0.8 0.85 0.9 0.95 1 1 1 1 1 1
  spline S4 degree 5 poles (-18, -395) (-17.7408, -393.4753) (-17.2324, -390.4393) (-16.5004, -385.9252) (-15.5864, -379.9877) (-14.5544, -372.7107) (-13.6437, -365.5929) (-12.8658, -358.6493) (-12.2295, -351.8914) (-11.7334, -345.3172) (-11.3683, -338.915) (-11.1734, -333.9207) (-11.0785, -330.2422) (-11.0377, -327.8193) (-11.0229, -326.6152) knots 0 0 0 0 0 0 0.1 0.2 0.3 0.4 0.5 0.6 0.7 0.8 0.9 1 1 1 1 1 1
  spline S5 degree 5 poles (-10.4455, -306.6235) (-10.4316, -305.4322) (-10.4048, -303.0646) (-10.3672, -299.5583) (-10.3227, -294.9752) (-10.2785, -289.4103) (-10.2514, -284.0265) (-10.2519, -278.8427) (-10.2967, -273.8752) (-10.4111, -269.1266) (-10.6265, -264.5872) (-10.9054, -261.1137) (-11.1865, -258.5933) (-11.4075, -256.9502) (-11.5264, -256.1379) knots 0 0 0 0 0 0 0.1 0.2 0.3 0.4 0.5 0.6 0.7 0.8 0.9 1 1 1 1 1 1
  arc A0 (-11.5264, -256.1379) -> (-16.2569, -255.4247) centre (-14, -256.5) ccw
  point P0 (-14, -256.5)
  point P1 (-14.2887, -266.4958)
  point P2 (-14.2887, -266.4958)
  point P3 (-14.2887, -266.4958)
  point P4 (-14.5774, -276.4917)
  point P5 (-14.5774, -276.4917)
  point P6 (-14.5774, -276.4917)
  point P7 (-14.8661, -286.4875)
  point P8 (-14.8661, -286.4875)
  point P9 (-14.8661, -286.4875)
  point P10 (-15.1548, -296.4833)
  point P11 (-15.1548, -296.4833)
  point P12 (-15.1548, -296.4833)
  point P13 (-15.4434, -306.4792)
  point P14 (-15.4434, -306.4792)
  point P15 (-15.4434, -306.4792)
  point P16 (-15.7321, -316.475)
  point P17 (-15.7321, -316.475)
  point P18 (-15.7321, -316.475)
  point P19 (-16.0208, -326.4708)
  point P20 (-16.0208, -326.4708)
  point P21 (-16.0208, -326.4708)
  point P22 (-16.3095, -336.4667)
  point P23 (-16.3095, -336.4667)
  point P24 (-16.3095, -336.4667)
  point P25 (-16.5982, -346.4625)
  point P26 (-16.5982, -346.4625)
  point P27 (-16.5982, -346.4625)
  point P28 (-16.8869, -356.4583)
  point P29 (-16.8869, -356.4583)
  point P30 (-16.8869, -356.4583)
  point P31 (-17.1756, -366.4542)
  point P32 (-17.1756, -366.4542)
  point P33 (-17.1756, -366.4542)
  point P34 (-23.2066, -336.2675)
  point P35 (-24.3397, -306.2222)
  point P36 (-22.3741, -276.2665)
  point P37 (-12.6886, -356.5796)
  point P38 (-10.2792, -276.6158)
  dimension "d53" = 150
  dimension "d54" = 250
  dimension "d55" = 14
  dimension "d56" = 4
  dimension "d57" = 18
  dimension "d58" = 5
  dimension "d59" = 5
  dimension "d62" = 10
  dimension "d63" = 0
  dimension "d65" = 6.1
  dimension "d66" = 7.8
  dimension "d67" = 8.5
  dimension "d68" = 8.7
  dimension "d69" = 8.9
  dimension "d70" = 8.5
  dimension "d71" = 8.2
  dimension "d72" = 6.9
  dimension "d73" = 5.4
  dimension "d74" = 4.6
  dimension "d75" = 3.4
  dimension "d76" = 4
  dimension "d77" = 4.3
  dimension "d78" = 4.7
  dimension "d79" = 4.9
  dimension "d80" = 5
  dimension "d82" = 4.9
  dimension "d83" = 4.4
  dimension "d84" = 4.2
  dimension "d85" = 3.6
loft "Erhebung1" add profiles "Skizze1", "Skizze2" section 1 section 2
